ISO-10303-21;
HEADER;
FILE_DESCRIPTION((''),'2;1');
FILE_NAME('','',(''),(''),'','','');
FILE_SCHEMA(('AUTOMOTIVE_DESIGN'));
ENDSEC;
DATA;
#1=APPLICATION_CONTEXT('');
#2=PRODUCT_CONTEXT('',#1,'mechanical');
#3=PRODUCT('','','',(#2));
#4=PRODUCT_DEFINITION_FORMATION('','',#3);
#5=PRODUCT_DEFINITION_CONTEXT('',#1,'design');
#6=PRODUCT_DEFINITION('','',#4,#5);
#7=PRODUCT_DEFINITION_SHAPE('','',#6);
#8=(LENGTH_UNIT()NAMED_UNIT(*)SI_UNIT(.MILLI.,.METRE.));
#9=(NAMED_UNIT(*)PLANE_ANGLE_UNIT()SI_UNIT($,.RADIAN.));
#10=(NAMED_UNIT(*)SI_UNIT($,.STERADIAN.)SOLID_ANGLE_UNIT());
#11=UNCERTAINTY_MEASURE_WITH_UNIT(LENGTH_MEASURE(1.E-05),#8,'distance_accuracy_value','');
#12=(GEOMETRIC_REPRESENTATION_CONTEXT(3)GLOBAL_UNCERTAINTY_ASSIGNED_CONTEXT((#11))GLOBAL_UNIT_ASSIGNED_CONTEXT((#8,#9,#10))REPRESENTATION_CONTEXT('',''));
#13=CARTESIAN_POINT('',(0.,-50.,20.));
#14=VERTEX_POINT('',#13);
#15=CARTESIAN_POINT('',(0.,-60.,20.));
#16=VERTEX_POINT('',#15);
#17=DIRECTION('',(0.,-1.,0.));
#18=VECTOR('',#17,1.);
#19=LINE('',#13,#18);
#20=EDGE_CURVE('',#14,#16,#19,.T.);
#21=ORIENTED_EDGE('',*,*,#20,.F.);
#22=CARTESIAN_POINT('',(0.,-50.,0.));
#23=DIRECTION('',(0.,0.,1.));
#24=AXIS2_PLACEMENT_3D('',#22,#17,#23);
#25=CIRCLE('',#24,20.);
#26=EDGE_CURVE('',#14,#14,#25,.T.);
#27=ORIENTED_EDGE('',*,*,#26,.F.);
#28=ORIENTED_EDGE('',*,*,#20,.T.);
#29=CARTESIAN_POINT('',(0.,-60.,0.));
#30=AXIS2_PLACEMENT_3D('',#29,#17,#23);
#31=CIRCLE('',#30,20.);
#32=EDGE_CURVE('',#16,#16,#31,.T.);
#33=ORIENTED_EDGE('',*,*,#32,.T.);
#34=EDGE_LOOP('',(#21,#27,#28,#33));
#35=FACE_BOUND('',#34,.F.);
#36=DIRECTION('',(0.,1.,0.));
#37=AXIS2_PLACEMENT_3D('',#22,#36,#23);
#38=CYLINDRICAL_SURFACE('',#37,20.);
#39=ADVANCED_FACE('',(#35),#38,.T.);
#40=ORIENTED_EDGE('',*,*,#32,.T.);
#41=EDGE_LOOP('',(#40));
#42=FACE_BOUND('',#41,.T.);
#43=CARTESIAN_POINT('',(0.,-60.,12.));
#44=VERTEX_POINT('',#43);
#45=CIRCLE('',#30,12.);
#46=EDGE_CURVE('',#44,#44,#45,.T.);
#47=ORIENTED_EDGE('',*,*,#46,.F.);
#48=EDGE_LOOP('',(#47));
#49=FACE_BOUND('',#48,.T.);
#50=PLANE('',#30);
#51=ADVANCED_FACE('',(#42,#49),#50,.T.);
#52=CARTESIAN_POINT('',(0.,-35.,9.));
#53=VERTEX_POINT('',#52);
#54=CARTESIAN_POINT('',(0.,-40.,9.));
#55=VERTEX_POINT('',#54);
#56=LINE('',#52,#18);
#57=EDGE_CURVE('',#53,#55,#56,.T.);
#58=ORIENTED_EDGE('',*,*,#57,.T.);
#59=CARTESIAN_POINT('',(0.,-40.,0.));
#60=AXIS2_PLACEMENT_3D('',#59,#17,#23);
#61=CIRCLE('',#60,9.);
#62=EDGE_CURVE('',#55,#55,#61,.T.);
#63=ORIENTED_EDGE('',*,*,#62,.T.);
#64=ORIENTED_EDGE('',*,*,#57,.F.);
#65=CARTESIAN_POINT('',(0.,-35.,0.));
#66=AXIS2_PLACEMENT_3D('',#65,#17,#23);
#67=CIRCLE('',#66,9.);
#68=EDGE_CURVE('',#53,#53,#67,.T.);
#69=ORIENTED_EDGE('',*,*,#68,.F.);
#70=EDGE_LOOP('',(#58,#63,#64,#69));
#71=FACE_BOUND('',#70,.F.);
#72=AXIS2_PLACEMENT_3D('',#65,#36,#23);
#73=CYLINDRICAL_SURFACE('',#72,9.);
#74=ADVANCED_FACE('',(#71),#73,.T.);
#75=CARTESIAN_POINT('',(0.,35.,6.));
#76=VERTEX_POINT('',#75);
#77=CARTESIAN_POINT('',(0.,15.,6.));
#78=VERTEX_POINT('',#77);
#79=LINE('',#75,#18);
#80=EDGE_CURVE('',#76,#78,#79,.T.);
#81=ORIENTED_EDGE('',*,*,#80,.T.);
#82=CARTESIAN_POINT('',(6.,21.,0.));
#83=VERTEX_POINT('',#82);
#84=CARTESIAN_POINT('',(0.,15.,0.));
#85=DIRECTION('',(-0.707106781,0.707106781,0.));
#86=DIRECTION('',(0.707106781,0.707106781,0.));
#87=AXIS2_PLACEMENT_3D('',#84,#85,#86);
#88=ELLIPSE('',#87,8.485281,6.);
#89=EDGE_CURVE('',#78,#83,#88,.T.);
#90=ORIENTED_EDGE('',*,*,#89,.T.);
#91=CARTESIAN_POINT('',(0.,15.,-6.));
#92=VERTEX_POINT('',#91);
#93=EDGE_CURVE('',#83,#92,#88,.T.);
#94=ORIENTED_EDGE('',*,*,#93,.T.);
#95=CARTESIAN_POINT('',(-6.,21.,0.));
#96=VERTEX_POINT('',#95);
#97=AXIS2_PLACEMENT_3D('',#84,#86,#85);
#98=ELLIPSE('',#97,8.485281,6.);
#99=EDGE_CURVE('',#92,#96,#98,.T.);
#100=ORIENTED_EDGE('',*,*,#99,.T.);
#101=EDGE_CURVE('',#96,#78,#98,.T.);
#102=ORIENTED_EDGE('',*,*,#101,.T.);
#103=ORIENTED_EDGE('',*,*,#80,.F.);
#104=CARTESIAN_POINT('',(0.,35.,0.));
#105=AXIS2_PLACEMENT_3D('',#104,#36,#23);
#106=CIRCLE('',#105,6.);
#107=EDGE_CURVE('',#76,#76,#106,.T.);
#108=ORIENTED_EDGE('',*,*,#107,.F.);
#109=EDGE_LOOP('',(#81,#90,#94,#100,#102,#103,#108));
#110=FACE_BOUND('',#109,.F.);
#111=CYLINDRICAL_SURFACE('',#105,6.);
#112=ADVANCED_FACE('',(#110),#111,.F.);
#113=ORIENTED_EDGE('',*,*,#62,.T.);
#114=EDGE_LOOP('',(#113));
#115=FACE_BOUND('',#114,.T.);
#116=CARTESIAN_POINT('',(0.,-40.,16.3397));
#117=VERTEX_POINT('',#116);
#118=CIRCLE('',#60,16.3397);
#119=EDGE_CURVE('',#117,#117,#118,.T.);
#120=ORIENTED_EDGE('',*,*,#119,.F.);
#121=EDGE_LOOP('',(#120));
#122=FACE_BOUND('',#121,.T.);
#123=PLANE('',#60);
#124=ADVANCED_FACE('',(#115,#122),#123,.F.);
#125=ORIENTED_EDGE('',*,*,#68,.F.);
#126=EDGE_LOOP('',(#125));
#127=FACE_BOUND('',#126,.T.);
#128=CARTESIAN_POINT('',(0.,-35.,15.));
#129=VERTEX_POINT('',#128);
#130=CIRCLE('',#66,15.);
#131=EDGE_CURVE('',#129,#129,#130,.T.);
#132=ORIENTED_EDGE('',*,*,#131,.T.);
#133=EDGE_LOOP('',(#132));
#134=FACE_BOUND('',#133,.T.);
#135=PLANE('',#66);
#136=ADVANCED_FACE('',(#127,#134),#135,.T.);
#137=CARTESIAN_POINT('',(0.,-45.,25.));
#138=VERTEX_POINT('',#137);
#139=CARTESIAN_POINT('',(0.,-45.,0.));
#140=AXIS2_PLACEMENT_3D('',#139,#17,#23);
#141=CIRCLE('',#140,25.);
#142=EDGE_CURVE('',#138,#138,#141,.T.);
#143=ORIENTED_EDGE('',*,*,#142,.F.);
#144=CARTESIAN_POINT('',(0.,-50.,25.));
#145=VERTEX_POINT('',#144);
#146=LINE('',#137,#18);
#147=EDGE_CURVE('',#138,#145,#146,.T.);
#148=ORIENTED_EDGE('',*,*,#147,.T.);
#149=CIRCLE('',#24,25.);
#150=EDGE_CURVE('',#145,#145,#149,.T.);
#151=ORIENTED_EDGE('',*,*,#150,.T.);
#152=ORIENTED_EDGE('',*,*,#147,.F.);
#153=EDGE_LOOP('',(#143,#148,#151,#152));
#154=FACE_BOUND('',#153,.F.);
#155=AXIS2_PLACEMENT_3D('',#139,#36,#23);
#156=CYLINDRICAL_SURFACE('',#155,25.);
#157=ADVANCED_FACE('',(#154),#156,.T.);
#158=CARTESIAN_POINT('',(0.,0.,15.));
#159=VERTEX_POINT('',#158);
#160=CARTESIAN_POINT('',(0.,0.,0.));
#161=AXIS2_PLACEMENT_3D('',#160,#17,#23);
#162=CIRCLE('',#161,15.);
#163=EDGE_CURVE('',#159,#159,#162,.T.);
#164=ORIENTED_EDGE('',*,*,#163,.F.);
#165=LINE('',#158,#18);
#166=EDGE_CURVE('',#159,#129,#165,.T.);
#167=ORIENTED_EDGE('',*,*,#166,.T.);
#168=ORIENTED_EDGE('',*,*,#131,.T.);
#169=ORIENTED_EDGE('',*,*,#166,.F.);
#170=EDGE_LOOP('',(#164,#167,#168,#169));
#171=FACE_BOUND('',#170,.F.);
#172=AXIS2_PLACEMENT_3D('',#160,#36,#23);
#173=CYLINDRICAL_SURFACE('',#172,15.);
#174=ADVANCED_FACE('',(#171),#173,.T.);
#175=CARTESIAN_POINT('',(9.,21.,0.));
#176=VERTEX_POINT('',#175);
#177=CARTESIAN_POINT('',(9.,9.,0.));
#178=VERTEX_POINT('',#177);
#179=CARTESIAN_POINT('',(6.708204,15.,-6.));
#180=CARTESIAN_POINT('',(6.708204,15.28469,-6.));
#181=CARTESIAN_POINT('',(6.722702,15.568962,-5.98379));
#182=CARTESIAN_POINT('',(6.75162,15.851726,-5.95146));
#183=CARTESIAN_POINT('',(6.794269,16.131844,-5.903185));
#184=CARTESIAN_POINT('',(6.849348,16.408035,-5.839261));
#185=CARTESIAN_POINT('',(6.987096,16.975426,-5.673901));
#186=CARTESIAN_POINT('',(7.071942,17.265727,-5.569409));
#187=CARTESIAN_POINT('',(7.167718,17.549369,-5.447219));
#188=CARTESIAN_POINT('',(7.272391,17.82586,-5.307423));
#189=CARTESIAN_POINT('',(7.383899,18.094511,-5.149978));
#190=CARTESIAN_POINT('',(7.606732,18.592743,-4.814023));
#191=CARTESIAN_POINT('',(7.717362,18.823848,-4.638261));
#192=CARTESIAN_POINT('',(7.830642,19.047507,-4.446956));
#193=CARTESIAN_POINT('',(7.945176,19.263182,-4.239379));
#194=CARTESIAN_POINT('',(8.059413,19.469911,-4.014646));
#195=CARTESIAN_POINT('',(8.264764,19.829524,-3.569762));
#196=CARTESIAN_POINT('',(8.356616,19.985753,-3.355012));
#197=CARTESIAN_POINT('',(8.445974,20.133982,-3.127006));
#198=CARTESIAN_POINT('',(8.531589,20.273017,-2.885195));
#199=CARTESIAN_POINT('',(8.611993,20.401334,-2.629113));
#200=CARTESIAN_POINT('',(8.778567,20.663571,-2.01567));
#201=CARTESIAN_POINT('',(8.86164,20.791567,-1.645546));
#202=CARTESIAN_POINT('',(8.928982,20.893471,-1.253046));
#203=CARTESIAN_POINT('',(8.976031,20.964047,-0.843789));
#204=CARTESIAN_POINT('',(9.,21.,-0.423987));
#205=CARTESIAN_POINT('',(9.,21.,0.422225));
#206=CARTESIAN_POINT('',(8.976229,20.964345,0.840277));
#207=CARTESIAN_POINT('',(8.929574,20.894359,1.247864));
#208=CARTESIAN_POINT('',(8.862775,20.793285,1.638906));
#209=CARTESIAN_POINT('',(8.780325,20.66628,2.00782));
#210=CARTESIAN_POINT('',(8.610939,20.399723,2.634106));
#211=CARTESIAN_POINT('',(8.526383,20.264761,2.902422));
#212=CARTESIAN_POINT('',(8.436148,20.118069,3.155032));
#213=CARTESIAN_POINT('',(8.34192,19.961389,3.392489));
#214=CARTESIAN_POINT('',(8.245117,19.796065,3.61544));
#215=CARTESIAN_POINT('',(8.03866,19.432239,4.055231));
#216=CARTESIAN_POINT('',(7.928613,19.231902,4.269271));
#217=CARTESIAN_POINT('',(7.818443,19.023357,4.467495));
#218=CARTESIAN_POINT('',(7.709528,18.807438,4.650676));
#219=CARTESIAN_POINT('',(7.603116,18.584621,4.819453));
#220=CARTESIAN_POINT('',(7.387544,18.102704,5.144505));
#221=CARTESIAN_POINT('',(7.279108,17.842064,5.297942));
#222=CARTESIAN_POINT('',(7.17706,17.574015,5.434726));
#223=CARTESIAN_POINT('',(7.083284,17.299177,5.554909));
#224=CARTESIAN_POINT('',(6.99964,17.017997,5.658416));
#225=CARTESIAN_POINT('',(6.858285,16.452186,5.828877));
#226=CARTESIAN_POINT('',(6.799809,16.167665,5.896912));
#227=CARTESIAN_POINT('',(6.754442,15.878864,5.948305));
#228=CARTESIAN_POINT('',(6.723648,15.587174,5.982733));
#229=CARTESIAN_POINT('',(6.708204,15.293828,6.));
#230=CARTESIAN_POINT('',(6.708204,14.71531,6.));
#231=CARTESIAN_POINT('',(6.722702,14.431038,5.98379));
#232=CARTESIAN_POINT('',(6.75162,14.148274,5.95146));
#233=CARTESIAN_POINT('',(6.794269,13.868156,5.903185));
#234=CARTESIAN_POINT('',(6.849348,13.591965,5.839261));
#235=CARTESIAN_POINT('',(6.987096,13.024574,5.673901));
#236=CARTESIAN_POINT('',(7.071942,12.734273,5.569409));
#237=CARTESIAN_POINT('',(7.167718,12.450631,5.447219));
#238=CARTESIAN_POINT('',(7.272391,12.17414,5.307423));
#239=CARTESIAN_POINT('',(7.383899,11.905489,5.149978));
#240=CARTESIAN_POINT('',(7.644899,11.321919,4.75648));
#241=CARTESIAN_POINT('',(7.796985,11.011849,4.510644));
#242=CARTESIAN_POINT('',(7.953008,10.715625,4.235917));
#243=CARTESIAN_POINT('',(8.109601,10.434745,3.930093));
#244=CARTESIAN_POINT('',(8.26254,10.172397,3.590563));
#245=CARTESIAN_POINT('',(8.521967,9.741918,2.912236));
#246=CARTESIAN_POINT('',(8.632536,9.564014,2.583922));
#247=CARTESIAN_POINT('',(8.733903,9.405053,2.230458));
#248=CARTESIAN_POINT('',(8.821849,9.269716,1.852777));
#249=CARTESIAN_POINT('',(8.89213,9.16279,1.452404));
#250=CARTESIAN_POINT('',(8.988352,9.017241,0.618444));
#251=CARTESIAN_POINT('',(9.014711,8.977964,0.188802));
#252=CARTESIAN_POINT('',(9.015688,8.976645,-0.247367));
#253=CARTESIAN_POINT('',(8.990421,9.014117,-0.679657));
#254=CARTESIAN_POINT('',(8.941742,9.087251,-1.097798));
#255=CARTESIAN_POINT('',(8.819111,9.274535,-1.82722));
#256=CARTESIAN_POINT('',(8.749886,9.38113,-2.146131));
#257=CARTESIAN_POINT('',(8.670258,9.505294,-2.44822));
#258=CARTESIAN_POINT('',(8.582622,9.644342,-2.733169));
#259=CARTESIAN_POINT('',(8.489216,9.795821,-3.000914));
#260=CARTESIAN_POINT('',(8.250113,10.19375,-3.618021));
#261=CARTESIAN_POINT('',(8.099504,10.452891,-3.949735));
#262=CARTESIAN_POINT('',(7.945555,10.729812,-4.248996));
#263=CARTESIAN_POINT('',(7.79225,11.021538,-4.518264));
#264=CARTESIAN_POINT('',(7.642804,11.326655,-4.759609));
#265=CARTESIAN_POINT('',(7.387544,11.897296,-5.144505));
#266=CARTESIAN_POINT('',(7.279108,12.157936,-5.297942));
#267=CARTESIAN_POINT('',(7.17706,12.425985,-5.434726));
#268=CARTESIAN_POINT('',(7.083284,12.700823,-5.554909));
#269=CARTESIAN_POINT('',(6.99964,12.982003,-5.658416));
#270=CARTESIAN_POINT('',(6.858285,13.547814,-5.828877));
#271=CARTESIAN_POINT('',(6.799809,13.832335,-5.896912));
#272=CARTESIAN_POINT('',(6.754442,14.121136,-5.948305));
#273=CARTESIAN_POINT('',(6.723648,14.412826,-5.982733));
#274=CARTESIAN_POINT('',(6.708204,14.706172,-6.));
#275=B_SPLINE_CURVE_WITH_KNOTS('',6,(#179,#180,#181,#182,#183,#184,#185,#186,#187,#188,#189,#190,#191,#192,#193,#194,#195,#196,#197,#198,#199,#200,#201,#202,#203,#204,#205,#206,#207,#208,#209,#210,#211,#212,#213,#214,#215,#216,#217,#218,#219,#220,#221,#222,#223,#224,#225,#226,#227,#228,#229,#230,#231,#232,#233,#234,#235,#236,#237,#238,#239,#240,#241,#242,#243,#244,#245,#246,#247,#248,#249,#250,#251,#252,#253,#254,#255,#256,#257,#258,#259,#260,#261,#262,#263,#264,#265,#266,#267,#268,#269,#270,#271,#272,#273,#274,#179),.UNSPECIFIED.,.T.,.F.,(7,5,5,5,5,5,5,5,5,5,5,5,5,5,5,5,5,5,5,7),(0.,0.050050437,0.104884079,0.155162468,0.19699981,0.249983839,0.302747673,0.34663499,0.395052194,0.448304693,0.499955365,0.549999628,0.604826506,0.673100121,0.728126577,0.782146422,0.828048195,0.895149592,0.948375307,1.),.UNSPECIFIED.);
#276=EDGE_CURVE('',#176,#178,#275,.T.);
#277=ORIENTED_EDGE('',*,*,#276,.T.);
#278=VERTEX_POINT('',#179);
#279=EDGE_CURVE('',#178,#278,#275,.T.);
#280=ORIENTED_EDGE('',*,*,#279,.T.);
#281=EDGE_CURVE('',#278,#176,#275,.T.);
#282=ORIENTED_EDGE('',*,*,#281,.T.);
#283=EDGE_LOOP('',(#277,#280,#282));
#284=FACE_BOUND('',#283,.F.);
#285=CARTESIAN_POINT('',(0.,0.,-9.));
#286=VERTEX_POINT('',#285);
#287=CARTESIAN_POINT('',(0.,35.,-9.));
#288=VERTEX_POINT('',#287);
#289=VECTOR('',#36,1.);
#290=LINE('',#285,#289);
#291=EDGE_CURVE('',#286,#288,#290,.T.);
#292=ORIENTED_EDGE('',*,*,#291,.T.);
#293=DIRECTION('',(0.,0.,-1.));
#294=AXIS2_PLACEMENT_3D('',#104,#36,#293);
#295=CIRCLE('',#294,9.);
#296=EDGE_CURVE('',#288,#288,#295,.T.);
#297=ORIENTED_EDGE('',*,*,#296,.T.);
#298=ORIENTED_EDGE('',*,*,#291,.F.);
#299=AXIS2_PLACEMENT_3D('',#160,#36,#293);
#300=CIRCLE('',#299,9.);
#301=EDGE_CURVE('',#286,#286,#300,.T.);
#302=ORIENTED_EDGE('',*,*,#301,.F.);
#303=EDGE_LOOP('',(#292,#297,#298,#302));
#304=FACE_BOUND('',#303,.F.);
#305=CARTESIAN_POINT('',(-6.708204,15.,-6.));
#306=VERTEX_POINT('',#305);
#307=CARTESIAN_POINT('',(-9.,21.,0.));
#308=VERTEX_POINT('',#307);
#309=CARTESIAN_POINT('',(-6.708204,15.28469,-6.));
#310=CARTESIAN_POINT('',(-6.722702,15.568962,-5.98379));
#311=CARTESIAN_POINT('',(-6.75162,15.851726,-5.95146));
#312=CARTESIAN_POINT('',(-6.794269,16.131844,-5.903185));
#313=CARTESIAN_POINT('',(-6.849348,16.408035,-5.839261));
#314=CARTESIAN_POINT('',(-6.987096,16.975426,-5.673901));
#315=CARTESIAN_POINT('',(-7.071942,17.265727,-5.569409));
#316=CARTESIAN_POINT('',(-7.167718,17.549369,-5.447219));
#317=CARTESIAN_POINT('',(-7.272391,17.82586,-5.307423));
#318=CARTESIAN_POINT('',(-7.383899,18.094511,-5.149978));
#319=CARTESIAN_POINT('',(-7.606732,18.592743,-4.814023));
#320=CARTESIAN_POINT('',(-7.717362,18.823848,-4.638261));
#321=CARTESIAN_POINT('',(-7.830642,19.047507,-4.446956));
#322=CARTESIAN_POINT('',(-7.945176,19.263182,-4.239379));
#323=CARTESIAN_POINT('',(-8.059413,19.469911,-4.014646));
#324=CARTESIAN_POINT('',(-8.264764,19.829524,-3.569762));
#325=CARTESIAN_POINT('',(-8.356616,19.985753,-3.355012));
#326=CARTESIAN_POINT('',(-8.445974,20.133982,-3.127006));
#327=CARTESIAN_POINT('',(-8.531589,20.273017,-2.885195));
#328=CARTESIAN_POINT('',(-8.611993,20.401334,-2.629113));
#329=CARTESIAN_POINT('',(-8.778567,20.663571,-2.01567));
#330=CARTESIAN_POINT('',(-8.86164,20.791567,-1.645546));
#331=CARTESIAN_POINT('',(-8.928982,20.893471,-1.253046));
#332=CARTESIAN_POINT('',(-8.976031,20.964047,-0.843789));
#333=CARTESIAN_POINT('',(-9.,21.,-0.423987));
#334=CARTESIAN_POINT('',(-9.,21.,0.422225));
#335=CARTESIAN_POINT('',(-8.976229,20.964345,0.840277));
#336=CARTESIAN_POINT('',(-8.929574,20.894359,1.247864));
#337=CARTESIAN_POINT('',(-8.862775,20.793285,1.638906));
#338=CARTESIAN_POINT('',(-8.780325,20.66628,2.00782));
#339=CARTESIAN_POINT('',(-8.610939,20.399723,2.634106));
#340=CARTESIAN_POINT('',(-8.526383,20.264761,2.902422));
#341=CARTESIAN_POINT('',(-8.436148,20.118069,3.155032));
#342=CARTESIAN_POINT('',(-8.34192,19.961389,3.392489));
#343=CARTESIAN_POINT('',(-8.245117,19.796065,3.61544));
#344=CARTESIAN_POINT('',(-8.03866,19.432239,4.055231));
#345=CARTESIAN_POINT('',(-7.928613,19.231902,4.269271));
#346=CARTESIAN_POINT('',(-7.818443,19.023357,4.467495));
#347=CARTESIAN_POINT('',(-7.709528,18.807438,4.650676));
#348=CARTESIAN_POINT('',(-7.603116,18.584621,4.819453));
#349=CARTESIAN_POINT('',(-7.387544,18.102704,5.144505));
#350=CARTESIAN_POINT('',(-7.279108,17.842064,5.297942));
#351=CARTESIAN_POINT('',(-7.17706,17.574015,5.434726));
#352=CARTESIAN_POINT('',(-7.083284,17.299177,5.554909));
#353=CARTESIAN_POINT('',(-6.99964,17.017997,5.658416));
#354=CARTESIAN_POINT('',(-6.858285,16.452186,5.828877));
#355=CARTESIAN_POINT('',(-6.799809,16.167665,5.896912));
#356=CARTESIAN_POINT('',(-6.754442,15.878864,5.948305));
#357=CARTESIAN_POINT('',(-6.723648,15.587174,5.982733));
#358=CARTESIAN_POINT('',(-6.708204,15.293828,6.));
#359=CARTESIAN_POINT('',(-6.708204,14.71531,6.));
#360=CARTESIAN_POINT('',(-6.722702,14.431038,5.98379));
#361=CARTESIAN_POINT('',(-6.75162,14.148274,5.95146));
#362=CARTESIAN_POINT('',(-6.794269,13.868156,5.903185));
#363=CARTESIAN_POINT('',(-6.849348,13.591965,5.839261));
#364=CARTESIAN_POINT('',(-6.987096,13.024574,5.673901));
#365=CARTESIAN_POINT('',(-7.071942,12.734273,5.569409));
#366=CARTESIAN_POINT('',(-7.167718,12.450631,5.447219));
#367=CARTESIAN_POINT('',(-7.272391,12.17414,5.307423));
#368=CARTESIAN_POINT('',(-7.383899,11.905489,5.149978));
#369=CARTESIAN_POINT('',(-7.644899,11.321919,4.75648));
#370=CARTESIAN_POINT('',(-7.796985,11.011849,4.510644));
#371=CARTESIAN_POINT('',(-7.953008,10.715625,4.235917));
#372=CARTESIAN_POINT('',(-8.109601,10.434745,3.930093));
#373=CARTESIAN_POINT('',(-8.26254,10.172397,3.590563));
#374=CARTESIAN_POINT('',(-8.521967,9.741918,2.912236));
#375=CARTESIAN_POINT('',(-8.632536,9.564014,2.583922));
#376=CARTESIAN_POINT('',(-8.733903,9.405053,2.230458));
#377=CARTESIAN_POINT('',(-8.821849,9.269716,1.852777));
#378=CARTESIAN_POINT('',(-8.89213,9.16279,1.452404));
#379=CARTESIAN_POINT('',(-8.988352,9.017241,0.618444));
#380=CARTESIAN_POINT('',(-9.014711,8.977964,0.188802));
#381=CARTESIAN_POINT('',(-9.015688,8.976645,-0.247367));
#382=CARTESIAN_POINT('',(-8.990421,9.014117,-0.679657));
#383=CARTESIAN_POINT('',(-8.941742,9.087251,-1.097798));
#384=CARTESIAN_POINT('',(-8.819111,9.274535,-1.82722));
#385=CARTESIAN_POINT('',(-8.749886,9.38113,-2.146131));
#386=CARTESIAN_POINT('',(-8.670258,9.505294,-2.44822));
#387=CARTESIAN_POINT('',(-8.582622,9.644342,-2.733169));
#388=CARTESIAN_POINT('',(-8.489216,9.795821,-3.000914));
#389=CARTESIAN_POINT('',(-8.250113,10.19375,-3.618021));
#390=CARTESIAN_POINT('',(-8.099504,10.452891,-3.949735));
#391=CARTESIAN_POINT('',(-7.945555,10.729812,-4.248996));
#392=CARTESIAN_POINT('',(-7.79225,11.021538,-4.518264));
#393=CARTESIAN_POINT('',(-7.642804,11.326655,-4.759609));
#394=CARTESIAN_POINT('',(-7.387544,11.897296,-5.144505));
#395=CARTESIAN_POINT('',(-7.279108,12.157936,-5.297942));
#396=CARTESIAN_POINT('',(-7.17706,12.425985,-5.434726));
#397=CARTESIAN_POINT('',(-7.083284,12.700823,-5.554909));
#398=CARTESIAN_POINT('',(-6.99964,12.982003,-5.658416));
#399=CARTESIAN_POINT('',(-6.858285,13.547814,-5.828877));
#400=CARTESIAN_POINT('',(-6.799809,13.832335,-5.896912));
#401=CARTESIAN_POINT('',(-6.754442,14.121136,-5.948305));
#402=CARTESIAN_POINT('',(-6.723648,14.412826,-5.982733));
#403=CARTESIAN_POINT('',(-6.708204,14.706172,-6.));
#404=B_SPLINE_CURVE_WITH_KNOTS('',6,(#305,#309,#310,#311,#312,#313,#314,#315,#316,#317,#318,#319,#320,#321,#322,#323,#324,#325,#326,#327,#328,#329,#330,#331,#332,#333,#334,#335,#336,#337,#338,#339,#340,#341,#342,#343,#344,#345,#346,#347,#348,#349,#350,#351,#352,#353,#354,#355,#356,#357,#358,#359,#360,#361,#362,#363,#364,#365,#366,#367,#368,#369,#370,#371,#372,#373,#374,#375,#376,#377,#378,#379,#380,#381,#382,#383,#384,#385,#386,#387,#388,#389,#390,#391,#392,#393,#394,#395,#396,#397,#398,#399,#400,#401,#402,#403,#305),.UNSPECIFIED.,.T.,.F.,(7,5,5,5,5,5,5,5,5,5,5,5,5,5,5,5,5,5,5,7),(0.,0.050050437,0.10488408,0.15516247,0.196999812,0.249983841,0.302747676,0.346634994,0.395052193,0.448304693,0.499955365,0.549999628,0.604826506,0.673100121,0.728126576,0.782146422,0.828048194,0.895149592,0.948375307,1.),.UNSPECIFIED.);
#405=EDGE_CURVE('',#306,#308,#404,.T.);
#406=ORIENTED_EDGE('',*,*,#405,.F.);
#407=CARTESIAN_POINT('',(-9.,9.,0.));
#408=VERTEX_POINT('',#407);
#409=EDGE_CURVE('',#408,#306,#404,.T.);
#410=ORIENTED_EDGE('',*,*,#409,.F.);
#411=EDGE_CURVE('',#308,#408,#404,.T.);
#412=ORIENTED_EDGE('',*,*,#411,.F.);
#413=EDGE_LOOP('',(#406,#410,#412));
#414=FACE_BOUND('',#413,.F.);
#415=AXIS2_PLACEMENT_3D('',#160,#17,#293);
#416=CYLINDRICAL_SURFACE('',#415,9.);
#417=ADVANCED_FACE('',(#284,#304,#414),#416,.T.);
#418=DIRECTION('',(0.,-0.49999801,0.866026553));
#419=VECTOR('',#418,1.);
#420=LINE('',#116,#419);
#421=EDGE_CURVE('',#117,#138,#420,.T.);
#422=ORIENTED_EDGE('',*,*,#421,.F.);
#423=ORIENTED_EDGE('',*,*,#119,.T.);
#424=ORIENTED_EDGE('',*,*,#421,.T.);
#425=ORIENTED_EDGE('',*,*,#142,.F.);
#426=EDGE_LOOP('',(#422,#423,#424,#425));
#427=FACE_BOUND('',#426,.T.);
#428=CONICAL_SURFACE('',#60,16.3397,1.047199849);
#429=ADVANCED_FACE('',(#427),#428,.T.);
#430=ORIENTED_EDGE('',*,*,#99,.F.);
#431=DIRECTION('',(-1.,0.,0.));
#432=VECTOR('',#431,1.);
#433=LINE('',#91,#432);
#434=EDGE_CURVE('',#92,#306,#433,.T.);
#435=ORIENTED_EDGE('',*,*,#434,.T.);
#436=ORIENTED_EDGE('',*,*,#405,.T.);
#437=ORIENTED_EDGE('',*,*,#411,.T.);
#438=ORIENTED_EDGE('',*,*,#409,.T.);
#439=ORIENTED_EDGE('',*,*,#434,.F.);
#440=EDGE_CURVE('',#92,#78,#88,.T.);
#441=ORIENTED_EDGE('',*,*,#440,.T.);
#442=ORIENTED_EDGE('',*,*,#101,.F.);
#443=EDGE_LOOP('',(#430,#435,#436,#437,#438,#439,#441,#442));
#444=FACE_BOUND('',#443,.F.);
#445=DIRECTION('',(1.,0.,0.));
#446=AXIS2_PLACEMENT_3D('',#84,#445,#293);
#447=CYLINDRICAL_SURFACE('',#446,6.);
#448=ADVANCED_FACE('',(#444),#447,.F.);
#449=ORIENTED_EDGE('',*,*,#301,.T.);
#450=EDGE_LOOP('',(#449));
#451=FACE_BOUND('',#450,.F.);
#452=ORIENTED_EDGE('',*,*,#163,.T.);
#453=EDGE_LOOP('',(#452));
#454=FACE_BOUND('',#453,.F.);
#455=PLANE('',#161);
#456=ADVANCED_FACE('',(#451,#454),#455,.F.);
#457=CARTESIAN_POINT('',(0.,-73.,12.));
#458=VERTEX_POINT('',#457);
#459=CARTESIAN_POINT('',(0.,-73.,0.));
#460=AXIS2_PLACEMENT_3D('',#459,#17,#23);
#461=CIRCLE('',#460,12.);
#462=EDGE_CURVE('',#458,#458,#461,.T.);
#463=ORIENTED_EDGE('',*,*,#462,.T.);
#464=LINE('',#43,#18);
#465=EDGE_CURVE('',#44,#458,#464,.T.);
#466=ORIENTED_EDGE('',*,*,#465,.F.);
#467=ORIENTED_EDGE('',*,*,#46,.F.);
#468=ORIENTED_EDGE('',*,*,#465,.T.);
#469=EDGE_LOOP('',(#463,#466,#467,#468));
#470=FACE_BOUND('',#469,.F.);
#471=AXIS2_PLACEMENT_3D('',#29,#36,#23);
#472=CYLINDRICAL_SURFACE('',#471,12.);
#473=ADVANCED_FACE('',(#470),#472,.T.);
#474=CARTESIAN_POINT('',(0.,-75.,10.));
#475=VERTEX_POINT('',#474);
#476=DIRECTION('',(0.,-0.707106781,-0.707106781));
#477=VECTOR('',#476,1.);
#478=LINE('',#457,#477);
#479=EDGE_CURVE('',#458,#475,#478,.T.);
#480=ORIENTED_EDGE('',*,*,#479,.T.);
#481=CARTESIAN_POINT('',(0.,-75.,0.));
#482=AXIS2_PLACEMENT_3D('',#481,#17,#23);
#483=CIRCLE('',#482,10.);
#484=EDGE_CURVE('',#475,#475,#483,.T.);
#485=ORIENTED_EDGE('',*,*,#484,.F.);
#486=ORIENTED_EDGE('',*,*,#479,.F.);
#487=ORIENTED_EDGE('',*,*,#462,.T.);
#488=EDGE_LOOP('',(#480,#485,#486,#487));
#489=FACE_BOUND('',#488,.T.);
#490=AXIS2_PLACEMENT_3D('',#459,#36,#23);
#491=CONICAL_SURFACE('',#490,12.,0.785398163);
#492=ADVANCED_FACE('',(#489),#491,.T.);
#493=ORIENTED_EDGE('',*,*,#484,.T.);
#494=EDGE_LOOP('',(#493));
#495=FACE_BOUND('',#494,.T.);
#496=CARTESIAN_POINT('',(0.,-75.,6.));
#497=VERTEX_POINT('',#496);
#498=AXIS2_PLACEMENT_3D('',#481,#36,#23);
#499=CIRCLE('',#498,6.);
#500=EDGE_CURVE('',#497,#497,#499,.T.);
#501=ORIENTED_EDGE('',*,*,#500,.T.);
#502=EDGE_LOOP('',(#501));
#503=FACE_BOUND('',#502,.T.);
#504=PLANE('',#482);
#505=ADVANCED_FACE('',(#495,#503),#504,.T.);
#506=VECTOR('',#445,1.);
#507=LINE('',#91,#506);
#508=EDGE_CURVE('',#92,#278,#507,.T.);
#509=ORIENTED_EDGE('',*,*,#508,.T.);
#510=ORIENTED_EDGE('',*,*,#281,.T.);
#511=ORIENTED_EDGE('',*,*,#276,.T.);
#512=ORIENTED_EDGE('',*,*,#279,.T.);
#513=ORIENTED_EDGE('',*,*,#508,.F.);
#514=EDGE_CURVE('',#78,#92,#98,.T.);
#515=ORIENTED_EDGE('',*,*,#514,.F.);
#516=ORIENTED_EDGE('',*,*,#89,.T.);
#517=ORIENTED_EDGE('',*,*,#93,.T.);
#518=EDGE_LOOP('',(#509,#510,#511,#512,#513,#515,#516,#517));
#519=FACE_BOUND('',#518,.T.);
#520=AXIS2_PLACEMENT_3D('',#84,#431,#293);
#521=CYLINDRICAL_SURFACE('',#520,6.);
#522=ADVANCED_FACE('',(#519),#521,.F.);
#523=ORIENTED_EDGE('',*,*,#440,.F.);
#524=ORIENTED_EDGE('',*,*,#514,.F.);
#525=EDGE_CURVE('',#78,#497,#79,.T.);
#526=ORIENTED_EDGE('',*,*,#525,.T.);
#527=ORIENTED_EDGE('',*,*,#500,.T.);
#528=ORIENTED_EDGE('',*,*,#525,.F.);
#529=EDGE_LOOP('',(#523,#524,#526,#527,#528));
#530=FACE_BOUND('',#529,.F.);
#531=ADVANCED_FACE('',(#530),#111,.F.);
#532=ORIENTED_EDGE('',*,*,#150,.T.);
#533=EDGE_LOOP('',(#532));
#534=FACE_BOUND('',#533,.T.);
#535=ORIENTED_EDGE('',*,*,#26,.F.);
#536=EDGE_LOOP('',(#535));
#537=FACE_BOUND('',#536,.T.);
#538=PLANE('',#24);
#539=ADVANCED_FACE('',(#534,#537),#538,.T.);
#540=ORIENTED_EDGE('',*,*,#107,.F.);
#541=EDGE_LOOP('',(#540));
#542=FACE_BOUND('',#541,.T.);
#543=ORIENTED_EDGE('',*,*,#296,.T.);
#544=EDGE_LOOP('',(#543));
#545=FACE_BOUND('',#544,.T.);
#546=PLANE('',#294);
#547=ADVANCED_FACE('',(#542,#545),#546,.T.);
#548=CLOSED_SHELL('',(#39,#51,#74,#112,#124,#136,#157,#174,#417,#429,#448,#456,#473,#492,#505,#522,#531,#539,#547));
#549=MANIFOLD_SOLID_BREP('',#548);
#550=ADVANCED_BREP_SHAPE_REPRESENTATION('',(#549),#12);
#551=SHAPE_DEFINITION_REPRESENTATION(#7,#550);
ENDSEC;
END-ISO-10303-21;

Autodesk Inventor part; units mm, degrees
ref_plane "YZ Plane" through (0, 0, 0) normal (1, 0, 0) x (0, 1, 0)
ref_plane "XZ Plane" through (0, 0, 0) normal (0, 1, 0) x (-1, 0, 0)
ref_plane "XY Plane" through (0, 0, 0) normal (0, 0, 1) x (1, 0, 0)
sketch "Sketch2" plane through (0, 0, 0) normal (0, 1, 0) x (-1, 0, 0)
  circle A0 centre (0, 0) radius 9
  dimension "d0" = 18
extrude "Extrusion1" add sketch "Sketch2" along normal blind 35
sketch "Sketch3" plane through (0, 0, 0) normal (0, -1, 0) x (1, 0, 0)
  circle A0 centre (0, 0) radius 15
  dimension "d3" = 30
extrude "Extrusion2" add sketch "Sketch3" along normal blind 35
sketch "Sketch4" plane through (0, -35, 0) normal (0, -1, 0) x (1, 0, 0)
  circle A0 centre (0, 0) radius 9 projected
  circle A1 centre (0, 0) radius 9
extrude "Extrusion3" add sketch "Sketch4" along normal blind 5
ref_plane "Work Plane1" through (0, -40, 0) normal (0, 0, -1) x (-1, 0, 0)
sketch "Sketch7" plane through (0, -40, 0) normal (0, 0, -1) x (-1, 0, 0)
  point P0 (0, 40)
sketch "Sketch8" plane through (0, -40, 0) normal (0, 0, -1) x (-1, 0, 0)
  line L0 (-9, 0) -> (9, 0) projected
  line L1 (-15, 5) -> (15, 5) projected
  line L2 (0, 0) -> (15, 0) construction
  line L3 (-16.3397, 0) -> (-25, -5)
  line L4 (0, 0) -> (0, -5)
  line L5 (0, -5) -> (-25, -5)
  line L6 (0, 0) -> (-16.3397, 0)
  point P0 (0, 40)
  dimension "d21" = 5
  dimension "d22" = 25
revolve "Revolution1" add sketch "Sketch8" angle 360 about axis through (0, -40, 0) along (0, -1, 0)
sketch "Sketch9" plane through (0, -45, 0) normal (0, -1, 0) x (1, 0, 0)
  circle A0 centre (0, 0) radius 25
extrude "Extrusion5" add sketch "Sketch9" along normal blind 5
sketch "Sketch10" plane through (0, -50, 0) normal (0, -1, 0) x (1, 0, 0)
  circle A0 centre (0, 0) radius 20
  dimension "d26" = 40
extrude "Extrusion6" add sketch "Sketch10" along normal blind 10
sketch "Sketch11" plane through (0, -60, 0) normal (0, -1, 0) x (1, 0, 0)
  circle A0 centre (0, 0) radius 9 projected
  circle A1 centre (0, 0) radius 12
  dimension "d29" = 24
extrude "Extrusion7" add sketch "Sketch11" along normal blind 15 contours A0 | A1
sketch "Sketch12" plane through (0, 35, 0) normal (0, 1, 0) x (1, 0, 0)
  circle A0 centre (0, 0) radius 6
  dimension "d32" = 12
extrude "Extrusion8" cut sketch "Sketch12" against normal blind 120
sketch "Sketch13" plane through (0, -40, 0) normal (0, 0, -1) x (-1, 0, 0)
  circle A0 centre (0, 55) radius 6
  line L0 (9, 75) -> (-9, 75) projected
  line L1 (9, 40) -> (-9, 40) projected
  point P0 (0, 40)
  dimension "d45" = 12
  dimension "d47" = 15
extrude "Extrusion9" cut sketch "Sketch13" along normal mid plane 18
move or copy body "Move Body2" bodies to move or copy 1 copy no rotation origin (0, 0, 0) rotation axis (0, 1, 0) rotation angle -90
chamfer "Chamfer1" distance 2 angle 45 1 edges at (0, -75, -12)
properties part number "Vtulka"
